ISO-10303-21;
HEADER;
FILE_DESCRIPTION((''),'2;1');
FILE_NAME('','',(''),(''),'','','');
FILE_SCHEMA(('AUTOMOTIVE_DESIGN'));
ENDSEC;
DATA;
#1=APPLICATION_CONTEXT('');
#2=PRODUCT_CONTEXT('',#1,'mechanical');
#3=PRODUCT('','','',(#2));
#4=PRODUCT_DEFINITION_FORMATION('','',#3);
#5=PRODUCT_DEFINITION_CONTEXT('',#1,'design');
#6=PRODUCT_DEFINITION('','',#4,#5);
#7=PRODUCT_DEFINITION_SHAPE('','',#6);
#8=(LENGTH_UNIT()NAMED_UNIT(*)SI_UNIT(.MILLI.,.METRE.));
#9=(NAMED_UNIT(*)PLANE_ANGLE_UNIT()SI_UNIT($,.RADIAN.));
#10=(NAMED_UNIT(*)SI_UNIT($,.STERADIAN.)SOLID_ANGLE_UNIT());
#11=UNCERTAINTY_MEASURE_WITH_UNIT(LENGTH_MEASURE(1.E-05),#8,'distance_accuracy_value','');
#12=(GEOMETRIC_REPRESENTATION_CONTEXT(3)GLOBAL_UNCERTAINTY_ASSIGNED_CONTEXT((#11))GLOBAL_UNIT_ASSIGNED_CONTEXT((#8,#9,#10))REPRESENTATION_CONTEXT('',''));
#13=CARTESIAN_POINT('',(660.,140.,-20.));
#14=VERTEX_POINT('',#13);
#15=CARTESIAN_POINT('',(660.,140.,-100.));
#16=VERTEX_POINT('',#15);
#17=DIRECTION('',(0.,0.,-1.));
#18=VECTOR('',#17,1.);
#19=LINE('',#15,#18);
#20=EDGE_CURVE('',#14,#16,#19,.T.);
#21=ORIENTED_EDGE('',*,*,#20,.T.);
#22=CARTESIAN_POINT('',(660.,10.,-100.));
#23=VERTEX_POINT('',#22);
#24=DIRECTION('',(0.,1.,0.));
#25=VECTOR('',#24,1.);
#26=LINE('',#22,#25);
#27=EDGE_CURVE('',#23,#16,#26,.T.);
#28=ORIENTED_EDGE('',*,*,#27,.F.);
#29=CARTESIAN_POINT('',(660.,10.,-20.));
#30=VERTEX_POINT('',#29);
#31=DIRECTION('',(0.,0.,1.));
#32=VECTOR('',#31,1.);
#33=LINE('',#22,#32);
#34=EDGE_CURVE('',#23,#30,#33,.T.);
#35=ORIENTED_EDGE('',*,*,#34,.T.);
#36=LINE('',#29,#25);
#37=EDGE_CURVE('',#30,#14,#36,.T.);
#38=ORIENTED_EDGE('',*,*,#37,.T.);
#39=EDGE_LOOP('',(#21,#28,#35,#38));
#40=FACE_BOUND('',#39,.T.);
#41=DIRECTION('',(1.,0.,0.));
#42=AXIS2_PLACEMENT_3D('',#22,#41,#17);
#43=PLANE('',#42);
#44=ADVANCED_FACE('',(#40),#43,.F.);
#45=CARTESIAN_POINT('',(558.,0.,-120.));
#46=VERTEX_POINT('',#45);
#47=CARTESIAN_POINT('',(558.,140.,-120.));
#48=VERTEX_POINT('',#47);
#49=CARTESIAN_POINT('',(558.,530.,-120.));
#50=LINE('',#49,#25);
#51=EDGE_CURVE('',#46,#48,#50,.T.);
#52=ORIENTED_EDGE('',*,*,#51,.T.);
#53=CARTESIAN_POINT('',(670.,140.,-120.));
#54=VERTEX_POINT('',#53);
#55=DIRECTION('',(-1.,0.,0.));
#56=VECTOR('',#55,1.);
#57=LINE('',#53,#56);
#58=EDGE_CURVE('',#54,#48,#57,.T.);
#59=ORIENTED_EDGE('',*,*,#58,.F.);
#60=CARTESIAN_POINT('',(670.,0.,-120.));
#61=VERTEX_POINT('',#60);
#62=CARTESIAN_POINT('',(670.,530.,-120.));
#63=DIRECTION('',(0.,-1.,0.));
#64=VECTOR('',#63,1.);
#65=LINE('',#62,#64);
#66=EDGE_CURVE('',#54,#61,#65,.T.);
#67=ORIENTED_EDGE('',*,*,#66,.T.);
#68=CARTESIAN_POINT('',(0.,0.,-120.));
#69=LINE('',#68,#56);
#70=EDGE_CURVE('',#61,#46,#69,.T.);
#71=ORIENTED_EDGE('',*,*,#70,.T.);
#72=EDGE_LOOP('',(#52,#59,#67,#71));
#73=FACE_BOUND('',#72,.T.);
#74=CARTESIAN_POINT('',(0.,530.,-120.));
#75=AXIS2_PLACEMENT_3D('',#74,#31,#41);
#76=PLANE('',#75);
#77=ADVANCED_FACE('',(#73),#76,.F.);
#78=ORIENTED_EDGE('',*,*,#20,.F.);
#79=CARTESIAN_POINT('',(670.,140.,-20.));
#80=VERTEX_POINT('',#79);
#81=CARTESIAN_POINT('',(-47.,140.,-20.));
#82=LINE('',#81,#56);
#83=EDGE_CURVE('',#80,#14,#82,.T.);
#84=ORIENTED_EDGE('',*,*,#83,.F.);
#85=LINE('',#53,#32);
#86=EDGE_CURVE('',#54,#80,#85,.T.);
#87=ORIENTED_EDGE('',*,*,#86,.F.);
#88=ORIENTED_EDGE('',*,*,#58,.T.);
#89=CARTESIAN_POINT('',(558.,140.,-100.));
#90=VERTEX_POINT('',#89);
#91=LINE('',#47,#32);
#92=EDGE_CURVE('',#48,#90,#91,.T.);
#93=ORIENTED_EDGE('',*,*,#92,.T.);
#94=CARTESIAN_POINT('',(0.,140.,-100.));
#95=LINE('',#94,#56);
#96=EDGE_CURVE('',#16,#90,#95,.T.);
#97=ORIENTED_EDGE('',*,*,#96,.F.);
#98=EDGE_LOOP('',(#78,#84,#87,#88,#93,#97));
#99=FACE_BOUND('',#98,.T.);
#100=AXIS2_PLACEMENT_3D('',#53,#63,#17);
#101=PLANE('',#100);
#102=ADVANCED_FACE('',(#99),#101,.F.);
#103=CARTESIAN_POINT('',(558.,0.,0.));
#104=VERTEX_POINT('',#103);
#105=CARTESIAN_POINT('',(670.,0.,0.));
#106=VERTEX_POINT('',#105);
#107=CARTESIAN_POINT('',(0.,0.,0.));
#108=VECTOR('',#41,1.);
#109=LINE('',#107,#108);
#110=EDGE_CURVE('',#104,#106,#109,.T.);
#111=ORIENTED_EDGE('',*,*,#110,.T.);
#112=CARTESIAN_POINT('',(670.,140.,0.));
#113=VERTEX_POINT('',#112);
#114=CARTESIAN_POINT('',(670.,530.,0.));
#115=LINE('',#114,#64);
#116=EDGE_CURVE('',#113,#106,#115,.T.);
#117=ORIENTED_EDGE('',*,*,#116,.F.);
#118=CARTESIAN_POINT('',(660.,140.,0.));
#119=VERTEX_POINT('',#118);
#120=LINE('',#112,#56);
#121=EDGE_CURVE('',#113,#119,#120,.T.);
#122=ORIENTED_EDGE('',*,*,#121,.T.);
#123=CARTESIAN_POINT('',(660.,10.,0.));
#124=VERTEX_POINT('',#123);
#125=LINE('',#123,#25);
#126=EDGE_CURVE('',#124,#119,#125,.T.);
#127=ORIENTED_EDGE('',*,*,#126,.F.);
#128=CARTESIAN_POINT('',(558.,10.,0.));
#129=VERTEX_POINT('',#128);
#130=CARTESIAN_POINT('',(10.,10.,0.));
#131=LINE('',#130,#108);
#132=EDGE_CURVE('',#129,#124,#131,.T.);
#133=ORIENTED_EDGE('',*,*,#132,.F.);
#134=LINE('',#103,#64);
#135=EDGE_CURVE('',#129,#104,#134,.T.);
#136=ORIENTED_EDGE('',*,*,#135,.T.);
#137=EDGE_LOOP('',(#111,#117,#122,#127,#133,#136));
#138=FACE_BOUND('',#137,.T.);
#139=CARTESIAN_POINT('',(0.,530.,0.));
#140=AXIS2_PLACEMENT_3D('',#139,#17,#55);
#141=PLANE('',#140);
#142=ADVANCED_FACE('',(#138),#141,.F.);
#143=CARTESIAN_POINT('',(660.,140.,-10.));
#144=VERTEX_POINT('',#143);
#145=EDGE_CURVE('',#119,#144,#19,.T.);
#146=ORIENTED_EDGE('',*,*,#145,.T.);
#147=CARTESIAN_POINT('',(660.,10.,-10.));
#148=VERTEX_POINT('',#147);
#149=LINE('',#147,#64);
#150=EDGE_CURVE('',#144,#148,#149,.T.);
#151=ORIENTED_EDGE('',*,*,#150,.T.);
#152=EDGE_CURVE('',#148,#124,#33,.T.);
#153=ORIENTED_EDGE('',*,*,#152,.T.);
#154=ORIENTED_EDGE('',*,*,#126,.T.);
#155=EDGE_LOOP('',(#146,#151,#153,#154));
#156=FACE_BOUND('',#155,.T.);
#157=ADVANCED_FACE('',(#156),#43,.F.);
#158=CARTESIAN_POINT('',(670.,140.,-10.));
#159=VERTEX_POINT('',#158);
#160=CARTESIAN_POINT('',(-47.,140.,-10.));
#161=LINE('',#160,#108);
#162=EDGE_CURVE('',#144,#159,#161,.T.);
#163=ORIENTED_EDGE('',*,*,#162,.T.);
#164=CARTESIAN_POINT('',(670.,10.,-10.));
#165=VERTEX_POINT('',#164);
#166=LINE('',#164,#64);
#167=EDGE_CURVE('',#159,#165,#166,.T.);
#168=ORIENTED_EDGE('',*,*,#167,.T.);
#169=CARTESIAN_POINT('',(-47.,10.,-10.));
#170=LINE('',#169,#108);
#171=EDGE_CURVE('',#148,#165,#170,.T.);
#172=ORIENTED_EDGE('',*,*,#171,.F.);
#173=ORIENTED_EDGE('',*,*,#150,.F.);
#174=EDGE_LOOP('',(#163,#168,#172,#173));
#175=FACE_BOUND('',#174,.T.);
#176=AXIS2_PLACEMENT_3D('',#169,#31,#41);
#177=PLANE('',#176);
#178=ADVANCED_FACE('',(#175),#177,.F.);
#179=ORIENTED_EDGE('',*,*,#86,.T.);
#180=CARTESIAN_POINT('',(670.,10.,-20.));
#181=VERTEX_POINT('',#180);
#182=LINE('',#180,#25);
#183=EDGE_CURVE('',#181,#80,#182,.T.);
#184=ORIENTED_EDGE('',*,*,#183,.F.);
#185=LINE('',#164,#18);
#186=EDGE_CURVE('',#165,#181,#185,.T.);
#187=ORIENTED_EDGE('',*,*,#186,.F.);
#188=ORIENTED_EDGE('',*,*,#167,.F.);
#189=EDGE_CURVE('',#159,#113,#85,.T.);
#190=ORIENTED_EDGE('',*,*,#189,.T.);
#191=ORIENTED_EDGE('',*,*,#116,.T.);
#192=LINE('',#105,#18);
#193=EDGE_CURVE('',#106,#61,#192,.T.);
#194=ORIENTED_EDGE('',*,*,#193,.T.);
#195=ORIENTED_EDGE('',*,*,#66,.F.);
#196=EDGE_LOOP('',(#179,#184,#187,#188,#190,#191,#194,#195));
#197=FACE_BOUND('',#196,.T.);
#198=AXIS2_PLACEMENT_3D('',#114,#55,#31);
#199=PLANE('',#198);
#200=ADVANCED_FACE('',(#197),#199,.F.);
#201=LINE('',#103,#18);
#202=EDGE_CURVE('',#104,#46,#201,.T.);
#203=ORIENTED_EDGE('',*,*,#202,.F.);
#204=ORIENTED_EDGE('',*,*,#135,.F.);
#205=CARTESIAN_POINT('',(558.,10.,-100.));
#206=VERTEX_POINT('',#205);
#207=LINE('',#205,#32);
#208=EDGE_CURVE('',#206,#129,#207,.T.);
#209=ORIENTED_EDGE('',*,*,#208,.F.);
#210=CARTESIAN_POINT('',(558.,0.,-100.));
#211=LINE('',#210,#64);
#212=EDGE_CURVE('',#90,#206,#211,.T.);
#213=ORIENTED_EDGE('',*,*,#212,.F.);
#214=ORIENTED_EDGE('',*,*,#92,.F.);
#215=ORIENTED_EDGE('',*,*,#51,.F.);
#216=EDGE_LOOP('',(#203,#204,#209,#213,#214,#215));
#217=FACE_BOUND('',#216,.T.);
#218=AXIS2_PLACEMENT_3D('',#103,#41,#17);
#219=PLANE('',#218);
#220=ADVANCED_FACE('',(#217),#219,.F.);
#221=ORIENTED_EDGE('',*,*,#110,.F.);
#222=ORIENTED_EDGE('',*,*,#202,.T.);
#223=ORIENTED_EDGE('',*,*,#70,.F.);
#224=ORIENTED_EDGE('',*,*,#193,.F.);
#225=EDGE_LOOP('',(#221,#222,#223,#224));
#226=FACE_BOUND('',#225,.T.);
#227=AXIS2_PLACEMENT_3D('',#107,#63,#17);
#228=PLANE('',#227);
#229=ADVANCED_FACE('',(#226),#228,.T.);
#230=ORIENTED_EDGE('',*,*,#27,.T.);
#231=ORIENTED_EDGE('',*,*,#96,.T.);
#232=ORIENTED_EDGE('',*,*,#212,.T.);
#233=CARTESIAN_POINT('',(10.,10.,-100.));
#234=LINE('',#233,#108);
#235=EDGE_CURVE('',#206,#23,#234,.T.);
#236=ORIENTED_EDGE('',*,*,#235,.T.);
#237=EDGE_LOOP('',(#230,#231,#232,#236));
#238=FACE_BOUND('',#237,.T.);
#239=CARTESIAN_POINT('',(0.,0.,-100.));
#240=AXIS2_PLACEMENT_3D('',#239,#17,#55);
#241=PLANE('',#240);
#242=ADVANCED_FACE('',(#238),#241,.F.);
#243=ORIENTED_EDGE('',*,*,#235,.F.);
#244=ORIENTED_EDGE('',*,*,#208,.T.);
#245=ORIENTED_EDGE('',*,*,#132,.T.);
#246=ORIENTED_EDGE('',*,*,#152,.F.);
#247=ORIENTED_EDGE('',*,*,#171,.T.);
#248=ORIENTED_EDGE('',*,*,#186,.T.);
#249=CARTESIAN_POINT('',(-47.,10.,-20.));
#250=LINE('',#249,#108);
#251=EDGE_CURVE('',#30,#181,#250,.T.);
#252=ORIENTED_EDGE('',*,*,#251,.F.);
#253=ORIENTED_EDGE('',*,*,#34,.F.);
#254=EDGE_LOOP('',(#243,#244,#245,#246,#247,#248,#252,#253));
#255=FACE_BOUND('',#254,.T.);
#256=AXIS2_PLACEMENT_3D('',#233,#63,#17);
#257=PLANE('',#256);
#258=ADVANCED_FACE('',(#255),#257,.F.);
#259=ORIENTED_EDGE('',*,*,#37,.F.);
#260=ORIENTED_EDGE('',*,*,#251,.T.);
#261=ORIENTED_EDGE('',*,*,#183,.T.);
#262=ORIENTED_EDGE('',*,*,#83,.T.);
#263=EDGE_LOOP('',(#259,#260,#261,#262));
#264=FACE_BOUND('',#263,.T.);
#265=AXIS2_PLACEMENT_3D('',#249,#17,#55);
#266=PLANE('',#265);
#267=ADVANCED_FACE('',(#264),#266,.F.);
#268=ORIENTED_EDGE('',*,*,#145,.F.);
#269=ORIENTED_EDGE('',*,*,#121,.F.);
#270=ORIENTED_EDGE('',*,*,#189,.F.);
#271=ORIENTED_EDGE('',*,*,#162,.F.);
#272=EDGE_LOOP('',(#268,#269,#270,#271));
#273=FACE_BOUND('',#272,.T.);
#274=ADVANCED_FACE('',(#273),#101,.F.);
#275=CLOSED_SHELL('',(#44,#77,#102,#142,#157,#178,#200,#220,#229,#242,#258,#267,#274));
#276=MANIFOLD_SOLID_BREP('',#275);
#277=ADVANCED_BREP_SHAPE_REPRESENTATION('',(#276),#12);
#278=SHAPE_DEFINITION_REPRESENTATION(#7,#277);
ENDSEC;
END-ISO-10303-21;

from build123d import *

# Parameters (mm, degrees)
SKETCH1_W                      = 670
SKETCH1_H                      = 120
BOSS_EXTRUDE1_DEPTH            = 530
SKETCH2_W                      = 100
SKETCH2_H                      = 200
SKETCH2_W_2                    = 650
SKETCH2_H_2                    = 250
CUT_EXTRUDE1_DEPTH             = 100
SKETCH3_R                      = 50
CUT_EXTRUDE2_DEPTH             = 260
F_12_0_12_DIAMETER_HOLE2_D     = 12
F_12_0_12_DIAMETER_HOLE2_DEPTH = 30
F_12_0_12_DIAMETER_HOLE2_TIP   = 3.605163714
SKETCH8_W                      = 650
SKETCH8_H                      = 50
BOSS_EXTRUDE2_DEPTH            = 5
SKETCH9_W                      = 10
SKETCH9_H                      = 250
CUT_EXTRUDE3_DEPTH             = 717
CUT_EXTRUDE4_DEPTH             = 5
SKETCH11_W                     = 10
SKETCH11_H                     = 100
BOSS_EXTRUDE3_DEPTH            = 78
BOSS_EXTRUDE3_2_DEPTH          = 78
BOSS_EXTRUDE3_3_DEPTH          = 78
SKETCH12_W                     = 20
SKETCH12_H                     = 30
CUT_EXTRUDE5_DEPTH             = 80
SKETCH15_W                     = 30
SKETCH15_H                     = 23.536156656
SKETCH15_H_2                   = 28.986603691
CUT_EXTRUDE7_DEPTH             = 35
SHELL1_T                       = -3
SKETCH16_W                     = 14
SKETCH16_H                     = 14
CUT_EXTRUDE8_DEPTH             = 35
SKETCH17_W                     = 5.729882812
SKETCH17_H                     = 17.428393554
SKETCH17_W_2                   = 13.369726562
SKETCH17_H_2                   = 3.342431641
BOSS_EXTRUDE4_DEPTH            = 5
CUT_EXTRUDE10_DEPTH            = 863.670273187
CUT_EXTRUDE10_DEPTH_BACK       = 863.670273187
SKETCH18_W                     = 670
SKETCH18_H                     = 250
CUT_EXTRUDE12_DEPTH            = 737.002717386
CUT_EXTRUDE12_DEPTH_BACK       = 737.002717386
SKETCH19_W                     = 558
SKETCH19_H                     = 280
CUT_EXTRUDE13_DEPTH            = 322.253793752
CUT_EXTRUDE13_DEPTH_BACK       = 322.253793752
SKETCH20_W                     = 120
SKETCH20_H                     = 140


with BuildPart() as part:
    # Sketch1 → Boss-Extrude1 (new body)
    with BuildSketch(Plane(origin=(0, 0, 0), x_dir=(1, 0, 0), z_dir=(0, 1, 0))):
        with Locations((335, 60)):
            Rectangle(SKETCH1_W, SKETCH1_H)
    extrude(amount=BOSS_EXTRUDE1_DEPTH)

    # Sketch2 → Cut-Extrude1 (cut)
    with BuildSketch(Plane.XY):
        with Locations((60, 380)):
            Rectangle(SKETCH2_W, SKETCH2_H)
        with Locations((170, 380)):
            Rectangle(SKETCH2_W, SKETCH2_H)
        with Locations((280, 380)):
            Rectangle(SKETCH2_W, SKETCH2_H)
        with Locations((390, 380)):
            Rectangle(SKETCH2_W, SKETCH2_H)
        with Locations((500, 380)):
            Rectangle(SKETCH2_W, SKETCH2_H)
        with Locations((610, 380)):
            Rectangle(SKETCH2_W, SKETCH2_H)
        with Locations((335, 135)):
            Rectangle(SKETCH2_W_2, SKETCH2_H_2)
    extrude(amount=-CUT_EXTRUDE1_DEPTH, mode=Mode.SUBTRACT)

    # Sketch3 → Cut-Extrude2 (cut)
    with BuildSketch(Plane(origin=(0, 530, 0), x_dir=(1, 0, 0), z_dir=(0, 1, 0))):
        with Locations(Location((60, 60, 0), (0, 0, 270))):
            Circle(SKETCH3_R)
        with Locations(Location((170, 60, 0), (0, 0, 270))):
            Circle(SKETCH3_R)
        with Locations(Location((280, 60, 0), (0, 0, 270))):
            Circle(SKETCH3_R)
        with Locations(Location((390, 60, 0), (0, 0, 270))):
            Circle(SKETCH3_R)
        with Locations(Location((500, 60, 0), (0, 0, 270))):
            Circle(SKETCH3_R)
        with Locations(Location((610, 60, 0), (0, 0, 270))):
            Circle(SKETCH3_R)
    extrude(amount=-CUT_EXTRUDE2_DEPTH, mode=Mode.SUBTRACT)

    # Ø12.0 (12) Diameter Hole2
    with Locations(Plane(origin=(59.704642413, 270, -102.411697903), x_dir=(0, 0, 1), z_dir=(0, 1, 0))):
        with Locations((0, 0), (-0.195888006, 111.8520513), (0.014838595, 221.167624818), (-0.341843303, 331.364008353), (0.657723149, 441.008646429), (1.288998006, 549.811854685)):
            Hole(F_12_0_12_DIAMETER_HOLE2_D / 2, depth=F_12_0_12_DIAMETER_HOLE2_DEPTH)
            with Locations((0, 0, -(F_12_0_12_DIAMETER_HOLE2_DEPTH + F_12_0_12_DIAMETER_HOLE2_TIP / 2))):  # 118° drill point
                Cone(0, F_12_0_12_DIAMETER_HOLE2_D / 2, F_12_0_12_DIAMETER_HOLE2_TIP, mode=Mode.SUBTRACT)

    # Sketch8 → Boss-Extrude2 (add)
    with BuildSketch(Plane.XY):
        with Locations((335, 305)):
            Rectangle(SKETCH8_W, SKETCH8_H)
    extrude(amount=-BOSS_EXTRUDE2_DEPTH)

    # Sketch9 → Cut-Extrude3 (cut)
    with BuildSketch(Plane(origin=(670, 0, 0), x_dir=(0, 0, -1), z_dir=(1, 0, 0))):
        with Locations((15, 135)):
            Rectangle(SKETCH9_W, SKETCH9_H)
    extrude(amount=-CUT_EXTRUDE3_DEPTH, mode=Mode.SUBTRACT)

    # Sketch10 → Cut-Extrude4 (cut)
    with BuildSketch(Plane(origin=(0, 10, 0), x_dir=(1, 0, 0), z_dir=(0, 1, 0))):
        Polygon((365, 61.943560596), (350, 87.924322709), (320, 87.924322709), (305, 61.943560596), (320, 35.962798482), (350, 35.962798482), align=None)
    extrude(amount=-CUT_EXTRUDE4_DEPTH, mode=Mode.SUBTRACT)

    # Sketch12 → Cut-Extrude5 (cut)
    with BuildSketch(Plane.XY.offset(-100)):
        with Locations((85.198613037, 245)):
            Rectangle(SKETCH12_W, SKETCH12_H)
        with Locations((195.198613037, 245)):
            Rectangle(SKETCH12_W, SKETCH12_H)
        with Locations((305.198613037, 245)):
            Rectangle(SKETCH12_W, SKETCH12_H)
        with Locations((415.198613037, 245)):
            Rectangle(SKETCH12_W, SKETCH12_H)
        with Locations((525.198613037, 245)):
            Rectangle(SKETCH12_W, SKETCH12_H)
        with Locations((635.198613037, 245)):
            Rectangle(SKETCH12_W, SKETCH12_H)
    extrude(amount=-CUT_EXTRUDE5_DEPTH, mode=Mode.SUBTRACT)

    # Sketch17 → Boss-Extrude4 (add)
    # profile 1 of 9: a face of its own
    with BuildSketch(Plane.XY):
        with BuildLine():
            Line((527.508830928, 289.835452458), (527.508830928, 307.263846012))
            Line((527.508830928, 307.263846012), (534.861434459, 307.263846012))
            add(Edge.make_bspline(
                [(534.861434459, 307.263846012), (535.181337774, 307.258256848), (535.803061116, 307.24739446), (536.703508491, 307.139069344), (537.544992916, 306.975202489), (538.325061607, 306.737496792), (539.040841948, 306.426020155), (539.698044515, 306.051894954), (540.290333057, 305.605079277), (540.822348212, 305.090232636), (541.284521701, 304.502523111), (541.692171296, 303.852565801), (542.030284458, 303.129762281), (542.309377095, 302.341316546), (542.5243908, 301.484161689), (542.679660381, 300.560045938), (542.773357357, 299.567500804), (542.783368073, 298.883107022), (542.788518428, 298.530997273)],
                knots=[0, 0, 0, 0, 1.135059408, 2.20595691, 3.214417064, 4.174978569, 5.094187092, 5.980001006, 6.853065862, 7.720814779, 8.600404634, 9.50058483, 10.438414914, 11.426825708, 12.465239141, 13.571113463, 14.750376389, 16, 16, 16, 16], degree=3))
            add(Edge.make_bspline(
                [(542.788518428, 298.530997273), (542.781740751, 298.180151665), (542.768592871, 297.499553336), (542.676885992, 296.511518461), (542.516733301, 295.591080531), (542.296748778, 294.736450427), (542.003051046, 293.953120444), (541.654236167, 293.233205539), (541.233025793, 292.585291498), (540.753136904, 292.000029304), (540.204772188, 291.484681411), (539.587651059, 291.044279297), (538.910779309, 290.668464036), (538.169670382, 290.361903209), (537.364073889, 290.124869172), (536.495133477, 289.954199984), (535.562644449, 289.853487388), (534.920131033, 289.841584621), (534.58911581, 289.835452458)],
                knots=[0, 0, 0, 0, 1.228418252, 2.382983832, 3.470276728, 4.496757894, 5.468023682, 6.394867725, 7.292157164, 8.167372942, 9.039072913, 9.918728341, 10.815246345, 11.744296628, 12.720973084, 13.750736166, 14.841206188, 16, 16, 16, 16], degree=3))
            Line((534.58911581, 289.835452458), (527.508830928, 289.835452458))
        make_face()
        with BuildLine():
            Line((533.238713741, 291.745413395), (534.048208904, 291.745413395))
            add(Edge.make_bspline(
                [(534.048208904, 291.745413395), (534.172894012, 291.749291978), (534.413033311, 291.756761998), (534.758676231, 291.825976613), (535.075745017, 291.938271137), (535.365749176, 292.094802589), (535.623404602, 292.300450923), (535.848862806, 292.551404902), (536.04776914, 292.844737637), (536.217685755, 293.190205032), (536.364284647, 293.596533622), (536.481764702, 294.076367921), (536.592118304, 294.630928744), (536.673672739, 295.265507643), (536.740044562, 295.978448886), (536.788346679, 296.768428292), (536.812018936, 297.636801208), (536.817188964, 298.241258393), (536.819890499, 298.55711002)],
                knots=[0, 0, 0, 0, 0.728710832, 1.403472396, 2.052289494, 2.690292559, 3.321919393, 3.970736491, 4.656696891, 5.388631723, 6.217040872, 7.17856157, 8.275589967, 9.523440737, 10.918935818, 12.463926104, 14.152268318, 16, 16, 16, 16], degree=3))
            add(Edge.make_bspline(
                [(536.819890499, 298.55711002), (536.8171426, 298.871715251), (536.811863063, 299.476166083), (536.7886758, 300.343334385), (536.739579947, 301.133216935), (536.674703848, 301.843934916), (536.589660404, 302.476324031), (536.488366458, 303.031681737), (536.362441588, 303.507627045), (536.222158727, 303.914921549), (536.050140993, 304.256514038), (535.858357073, 304.554097881), (535.62547107, 304.79746827), (535.36991257, 305.004888479), (535.079348843, 305.160875844), (534.761320266, 305.273944358), (534.414185903, 305.34216807), (534.172870641, 305.349893944), (534.048208904, 305.353885075)],
                knots=[0, 0, 0, 0, 1.842836665, 3.540640921, 5.080358154, 6.47765669, 7.719902824, 8.816971715, 9.781579111, 10.601733135, 11.334613876, 12.017393917, 12.666641099, 13.29908421, 13.937911793, 14.587567384, 15.270347425, 16, 16, 16, 16], degree=3))
            Line((534.048208904, 305.353885075), (533.238713741, 305.353885075))
            Line((533.238713741, 305.353885075), (533.238713741, 291.745413395))
        make_face(mode=Mode.SUBTRACT)
    # profile 2 of 9: a face of its own
    with BuildSketch(Plane.XY):
        with Locations((547.563420772, 298.549649235)):
            Rectangle(SKETCH17_W, SKETCH17_H)
    # profile 3 of 9: a face of its own
    with BuildSketch(Plane.XY):
        Polygon((564.514324092, 307.263846012), (564.514324092, 305.115139958), (558.545696163, 305.115139958), (558.545696163, 299.862747379), (563.559343624, 299.862747379), (563.559343624, 297.714041325), (558.545696163, 297.714041325), (558.545696163, 289.835452458), (552.81581335, 289.835452458), (552.81581335, 307.263846012), align=None)
    # profile 4 of 9: a face of its own
    with BuildSketch(Plane.XY):
        Polygon((577.645305538, 307.263846012), (577.645305538, 305.115139958), (571.676677608, 305.115139958), (571.676677608, 299.862747379), (576.690325069, 299.862747379), (576.690325069, 297.714041325), (571.676677608, 297.714041325), (571.676677608, 289.835452458), (565.946794795, 289.835452458), (565.946794795, 307.263846012), align=None)
    # profile 5 of 9: a face of its own
    with BuildSketch(Plane.XY):
        with Locations((584.330168819, 287.448001286)):
            Rectangle(SKETCH17_W_2, SKETCH17_H_2)
    # profile 6 of 9: a face of its own
    with BuildSketch(Plane.XY):
        with BuildLine():
            Line((605.578484249, 307.263846012), (605.578484249, 295.602639195))
            add(Edge.make_bspline(
                [(605.578484249, 295.602639195), (605.574209777, 295.35989389), (605.565919345, 294.889083964), (605.480877158, 294.20653885), (605.349958188, 293.569747554), (605.15926554, 292.978838165), (604.911867049, 292.436847071), (604.616163877, 291.936663973), (604.260702644, 291.487723021), (603.847299908, 291.08966617), (603.386881991, 290.731670113), (602.867295001, 290.425440037), (602.293741958, 290.168488385), (601.66690529, 289.960990771), (600.988052682, 289.797299786), (600.254912883, 289.679078851), (599.467035781, 289.60781007), (598.923618241, 289.60048219), (598.643684673, 289.59670734)],
                knots=[0, 0, 0, 0, 1.108173197, 2.149326602, 3.136215123, 4.073726706, 4.978516626, 5.852185058, 6.72141202, 7.584905625, 8.467554395, 9.379216169, 10.332422268, 11.332766067, 12.390653242, 13.518530507, 14.721707419, 16, 16, 16, 16], degree=3))
            add(Edge.make_bspline(
                [(598.643684673, 289.59670734), (598.373688491, 289.600411437), (597.851346557, 289.607577482), (597.093280473, 289.679448684), (596.387523889, 289.797736542), (595.733050135, 289.960122315), (595.130189942, 290.169220301), (594.579048171, 290.42623041), (594.078350789, 290.732835498), (593.633858028, 291.090104794), (593.234289459, 291.486851767), (592.899913678, 291.940746827), (592.609043638, 292.435866034), (592.375223767, 292.980322997), (592.191754821, 293.570441519), (592.063541006, 294.20666921), (591.983676196, 294.889343196), (591.974661767, 295.359932437), (591.970012569, 295.602639195)],
                knots=[0, 0, 0, 0, 1.258901956, 2.435505865, 3.547148904, 4.59359074, 5.576649289, 6.5183682, 7.424469602, 8.307507093, 9.172751023, 10.042627298, 10.928839176, 11.845659241, 12.799442865, 13.80597989, 14.868432463, 16, 16, 16, 16], degree=3))
            Line((591.970012569, 295.602639195), (591.970012569, 307.263846012))
            Line((591.970012569, 307.263846012), (597.699895381, 307.263846012))
            Line((597.699895381, 307.263846012), (597.699895381, 295.457153889))
            add(Edge.make_bspline(
                [(597.699895381, 295.457153889), (597.700816195, 295.287996189), (597.702584578, 294.963135903), (597.729908723, 294.499051493), (597.768241004, 294.079064133), (597.828226169, 293.705517832), (597.90066041, 293.377063412), (597.989882091, 293.09281535), (598.094998068, 292.852496478), (598.225239063, 292.654232043), (598.380826623, 292.495135011), (598.55368342, 292.353231761), (598.757556996, 292.238543846), (598.987648905, 292.146224908), (599.243380948, 292.070549638), (599.526120553, 292.020376099), (599.83553351, 291.990763905), (600.049971942, 291.986424568), (600.161954402, 291.984158512)],
                knots=[0, 0, 0, 0, 1.622370975, 3.115695595, 4.458049099, 5.666011203, 6.742434742, 7.681714947, 8.519814998, 9.250928664, 9.942747364, 10.646898194, 11.389596108, 12.175933929, 13.021386247, 13.943159715, 14.925891993, 16, 16, 16, 16], degree=3))
            add(Edge.make_bspline(
                [(600.161954402, 291.984158512), (600.283927219, 291.987190593), (600.521124756, 291.993087005), (600.86597014, 292.03390861), (601.187714881, 292.103380086), (601.484890424, 292.205377303), (601.758665297, 292.332852529), (602.012761516, 292.484567923), (602.236391413, 292.674631152), (602.439076761, 292.888441291), (602.620738276, 293.128529789), (602.771757722, 293.399928575), (602.905501548, 293.697121508), (603.005823683, 294.025060118), (603.089837826, 294.379999499), (603.146989706, 294.763086929), (603.186210275, 295.174074524), (603.189394751, 295.457053988), (603.191033077, 295.602639195)],
                knots=[0, 0, 0, 0, 1.083870311, 2.107775948, 3.08105344, 4.003637981, 4.893545291, 5.761570557, 6.624657808, 7.49233129, 8.376387281, 9.291996285, 10.246843261, 11.267344133, 12.334180325, 13.486053461, 14.706643157, 16, 16, 16, 16], degree=3))
            Line((603.191033077, 295.602639195), (603.191033077, 307.263846012))
            Line((603.191033077, 307.263846012), (605.578484249, 307.263846012))
        make_face()
    # profile 7 of 9: a face of its own
    with BuildSketch(Plane.XY):
        with BuildLine():
            Line((619.731593227, 302.015183827), (616.739818477, 301.526502415))
            add(Edge.make_bspline(
                [(616.739818477, 301.526502415), (616.748849224, 301.670726223), (616.765660669, 301.939210177), (616.78429066, 302.312269209), (616.796668381, 302.625642376), (616.798628236, 302.814722915), (616.799504756, 302.899286839)],
                knots=[0, 0, 0, 0, 1.261802504, 2.348944521, 3.261585937, 4, 4, 4, 4], degree=3))
            add(Edge.make_bspline(
                [(616.799504756, 302.899286839), (616.798306068, 303.007660677), (616.795968139, 303.219033721), (616.750451916, 303.523894877), (616.694806916, 303.811547356), (616.604352699, 304.076787391), (616.488181329, 304.320314265), (616.348943917, 304.543955606), (616.184187178, 304.745078709), (615.995833421, 304.928129987), (615.778009957, 305.083200131), (615.536269472, 305.218702836), (615.269765326, 305.333844758), (614.978065514, 305.431346685), (614.660683072, 305.504624438), (614.319025281, 305.556776695), (613.952471696, 305.585673441), (613.699597795, 305.590260771), (613.568984889, 305.592630192)],
                knots=[0, 0, 0, 0, 1.079280541, 2.105035848, 3.067950317, 3.99715044, 4.889989748, 5.753421302, 6.617030865, 7.476358039, 8.364190572, 9.274590025, 10.235106994, 11.254473582, 12.337095886, 13.478601727, 14.697662529, 16, 16, 16, 16], degree=3))
            add(Edge.make_bspline(
                [(613.568984889, 305.592630192), (613.391954632, 305.58912286), (613.059112606, 305.582528579), (612.595688488, 305.495339748), (612.198743126, 305.361419257), (611.87165349, 305.163811893), (611.613188167, 304.909795747), (611.433841092, 304.593316589), (611.323009072, 304.224665915), (611.313400221, 303.959558324), (611.308367061, 303.820693775)],
                knots=[0, 0, 0, 0, 1.294917039, 2.43462794, 3.440028966, 4.347597256, 5.210608309, 6.06356377, 6.985685997, 8, 8, 8, 8], degree=3))
            add(Edge.make_bspline(
                [(611.308367061, 303.820693775), (611.317562032, 303.705133219), (611.336106628, 303.472068433), (611.47315858, 303.132808312), (611.695999602, 302.811560885), (612.009295906, 302.510664216), (612.404107796, 302.221967273), (612.884407504, 301.948533431), (613.450813789, 301.688189695), (613.862519081, 301.536023727), (614.080048656, 301.455624958)],
                knots=[0, 0, 0, 0, 0.716839541, 1.445735977, 2.240793036, 3.131329288, 4.131129903, 5.273471266, 6.559404876, 8, 8, 8, 8], degree=3))
            add(Edge.make_bspline(
                [(614.080048656, 301.455624958), (614.335934702, 301.364918412), (614.834564244, 301.188164095), (615.547657928, 300.88707802), (616.213068388, 300.5749594), (616.829579094, 300.246613346), (617.397833174, 299.90520698), (617.914851624, 299.544556457), (618.386199073, 299.173962102), (618.807001026, 298.783874588), (619.177995113, 298.378100064), (619.4958685, 297.952745357), (619.771807525, 297.51723103), (619.991113975, 297.061458502), (620.169645242, 296.594624218), (620.292698657, 296.11024444), (620.364288243, 295.609761088), (620.37516617, 295.270864226), (620.380681514, 295.099036213)],
                knots=[0, 0, 0, 0, 1.359488612, 2.649152603, 3.874964776, 5.039588756, 6.146130126, 7.193090393, 8.194917302, 9.146793662, 10.063845301, 10.944476293, 11.803344532, 12.641736646, 13.473440096, 14.302714936, 15.139439897, 16, 16, 16, 16], degree=3))
            add(Edge.make_bspline(
                [(620.380681514, 295.099036213), (620.374476075, 294.902306495), (620.362285176, 294.515820995), (620.280160209, 293.948630617), (620.138011896, 293.409496554), (619.938489338, 292.895972278), (619.681049879, 292.411946655), (619.366518754, 291.954381076), (618.996510229, 291.525099427), (618.5710008, 291.128381035), (618.102222518, 290.765302239), (617.587803957, 290.450854345), (617.034458515, 290.187092261), (616.444107988, 289.968993032), (615.81453624, 289.801373099), (615.145337453, 289.685291013), (614.438790193, 289.606619894), (613.954683001, 289.600062276), (613.70700941, 289.59670734)],
                knots=[0, 0, 0, 0, 0.972121714, 1.909782367, 2.824924061, 3.721832975, 4.62620438, 5.527836938, 6.46026819, 7.421000932, 8.398101015, 9.385579713, 10.394244048, 11.422703992, 12.491421888, 13.608778581, 14.776629625, 16, 16, 16, 16], degree=3))
            add(Edge.make_bspline(
                [(613.70700941, 289.59670734), (613.445745367, 289.599650312), (612.939893069, 289.605348413), (612.207608113, 289.66709241), (611.525297432, 289.760984454), (610.893395078, 289.899706116), (610.309273131, 290.072394336), (609.776099392, 290.288320955), (609.295310255, 290.547303481), (608.863217672, 290.843007892), (608.478306623, 291.175775461), (608.148120946, 291.551766865), (607.86942369, 291.967163224), (607.639947144, 292.421521488), (607.466477665, 292.917583541), (607.339164663, 293.449829748), (607.264537999, 294.021332449), (607.254747521, 294.414908557), (607.249700069, 294.617815586)],
                knots=[0, 0, 0, 0, 1.342201143, 2.598733168, 3.773451092, 4.878874364, 5.91991243, 6.900006476, 7.829142054, 8.72062616, 9.585588575, 10.436728592, 11.283829734, 12.149664931, 13.044964919, 13.977937424, 14.957531465, 16, 16, 16, 16], degree=3))
            add(Edge.make_bspline(
                [(607.249700069, 294.617815586), (607.250803815, 294.692425759), (607.253213998, 294.855347393), (607.260452266, 295.122772538), (607.275636683, 295.433682216), (607.29037174, 295.656130545), (607.298195171, 295.774237248)],
                knots=[0, 0, 0, 0, 0.773500207, 1.689044709, 2.77302154, 4, 4, 4, 4], degree=3))
            Line((607.298195171, 295.774237248), (610.36457777, 296.337526509))
            add(Edge.make_bspline(
                [(610.36457777, 296.337526509), (610.326952988, 296.136337493), (610.255606535, 295.754830366), (610.178678473, 295.21219969), (610.124206629, 294.733311493), (610.11767002, 294.435147371), (610.114641475, 294.297001835)],
                knots=[0, 0, 0, 0, 1.192988372, 2.262218769, 3.194850416, 4, 4, 4, 4], degree=3))
            add(Edge.make_bspline(
                [(610.114641475, 294.297001835), (610.116191817, 294.183708768), (610.119182568, 293.965156219), (610.159053378, 293.648552813), (610.215988606, 293.352999663), (610.302906772, 293.079707227), (610.411206928, 292.826307836), (610.544682453, 292.59538211), (610.704385489, 292.386485019), (610.887496571, 292.200099922), (611.094689168, 292.033628705), (611.327456494, 291.892756696), (611.58347653, 291.771733922), (611.864681562, 291.677479524), (612.167961721, 291.596080628), (612.497219749, 291.548235723), (612.849461228, 291.512043782), (613.092629543, 291.508500084), (613.218327999, 291.506668278)],
                knots=[0, 0, 0, 0, 1.135776692, 2.191015738, 3.19649269, 4.151244236, 5.061952528, 5.956281389, 6.819534407, 7.692823504, 8.571441916, 9.478554956, 10.416037156, 11.406231466, 12.450054172, 13.561596327, 14.739541482, 16, 16, 16, 16], degree=3))
            add(Edge.make_bspline(
                [(613.218327999, 291.506668278), (613.423996012, 291.510791273), (613.810619321, 291.518541853), (614.349272542, 291.616708407), (614.810575885, 291.768742445), (615.189785268, 291.991387532), (615.490778961, 292.278756613), (615.698005174, 292.637320004), (615.824813318, 293.05638326), (615.837728413, 293.355975238), (615.844524288, 293.513619419)],
                knots=[0, 0, 0, 0, 1.308765556, 2.460272085, 3.475015317, 4.388076298, 5.239673503, 6.095681635, 6.997954785, 8, 8, 8, 8], degree=3))
            add(Edge.make_bspline(
                [(615.844524288, 293.513619419), (615.833808824, 293.638242951), (615.811807312, 293.894126055), (615.644884004, 294.264515838), (615.382382362, 294.620631473), (615.016807277, 294.962984909), (614.551376589, 295.293471235), (613.986957743, 295.616730224), (613.322148235, 295.933112033), (612.83677959, 296.119639164), (612.580430889, 296.21815395)],
                knots=[0, 0, 0, 0, 0.667930748, 1.371427933, 2.146459016, 3.034714139, 4.04893387, 5.207327294, 6.525042705, 8, 8, 8, 8], degree=3))
            add(Edge.make_bspline(
                [(612.580430889, 296.21815395), (612.374354345, 296.29679374), (611.970646869, 296.450850434), (611.394079385, 296.713586304), (610.853066711, 296.987016804), (610.357486361, 297.288235735), (609.896382561, 297.599610528), (609.477036946, 297.932256792), (609.09841673, 298.284556341), (608.758710772, 298.653375077), (608.457302107, 299.038989264), (608.199448649, 299.444659231), (607.977533299, 299.866789834), (607.798609588, 300.308107488), (607.65975715, 300.767821241), (607.559616231, 301.244439392), (607.497905054, 301.739995674), (607.491630423, 302.075933546), (607.488445186, 302.246468159)],
                knots=[0, 0, 0, 0, 1.249558333, 2.447906163, 3.58867143, 4.682264114, 5.731748367, 6.739728761, 7.711906036, 8.659384707, 9.578321416, 10.481344598, 11.379544271, 12.277135726, 13.175418307, 14.097160112, 15.034047388, 16, 16, 16, 16], degree=3))
            add(Edge.make_bspline(
                [(607.488445186, 302.246468159), (607.49282555, 302.439538736), (607.501402184, 302.817565692), (607.587451154, 303.36980586), (607.719291893, 303.894921371), (607.910558542, 304.389343064), (608.156192894, 304.852853762), (608.453187669, 305.288766511), (608.804241719, 305.697593471), (609.213503754, 306.066686531), (609.657214714, 306.407618241), (610.14376173, 306.697651931), (610.658716537, 306.950861947), (611.210636666, 307.148827868), (611.791820619, 307.313252612), (612.408080529, 307.421140415), (613.056315391, 307.490701612), (613.499160755, 307.498567824), (613.725661373, 307.502591129)],
                knots=[0, 0, 0, 0, 1.01033566, 1.978209831, 2.919499157, 3.840961976, 4.746855014, 5.660740114, 6.597989116, 7.56120833, 8.541877795, 9.523498025, 10.522416858, 11.542172371, 12.589598349, 13.681636521, 14.814234488, 16, 16, 16, 16], degree=3))
            add(Edge.make_bspline(
                [(613.725661373, 307.502591129), (613.968269855, 307.498219033), (614.438190994, 307.489750488), (615.120391152, 307.426787419), (615.755073228, 307.319142339), (616.345153155, 307.171557286), (616.887304575, 306.977590666), (617.384933999, 306.742393454), (617.834452216, 306.46201507), (618.236961315, 306.139451502), (618.593086714, 305.773322851), (618.897467704, 305.361641069), (619.158701245, 304.909408454), (619.366684143, 304.412232174), (619.529870326, 303.873247147), (619.649133834, 303.29158184), (619.720420497, 302.667301443), (619.72779778, 302.236712324), (619.731593227, 302.015183827)],
                knots=[0, 0, 0, 0, 1.248314423, 2.417925914, 3.521398822, 4.558068205, 5.543720209, 6.479599284, 7.385061127, 8.263440163, 9.127722873, 10.00561236, 10.891325273, 11.808802823, 12.772251995, 13.784947978, 14.860405143, 16, 16, 16, 16], degree=3))
        make_face()
    # profile 8 of 9: a face of its own
    with BuildSketch(Plane.XY):
        Polygon((633.989153194, 307.263846012), (633.989153194, 305.115139958), (628.020525264, 305.115139958), (628.020525264, 300.340237614), (633.034172725, 300.340237614), (633.034172725, 298.191531559), (628.020525264, 298.191531559), (628.020525264, 291.984158512), (634.944133663, 291.984158512), (634.944133663, 289.835452458), (622.290642452, 289.835452458), (622.290642452, 307.263846012), align=None)
    # profile 9 of 9: a face of its own
    with BuildSketch(Plane.XY):
        with BuildLine():
            Line((636.376604366, 289.835452458), (636.376604366, 307.263846012))
            Line((636.376604366, 307.263846012), (643.990335369, 307.263846012))
            add(Edge.make_bspline(
                [(643.990335369, 307.263846012), (644.237946498, 307.261150834), (644.721600887, 307.25588639), (645.426490561, 307.189203683), (646.094808274, 307.090496236), (646.724915796, 306.949857504), (647.317873659, 306.767252686), (647.871119087, 306.542146), (648.390701058, 306.282329135), (648.864494846, 305.976472528), (649.295093616, 305.642889252), (649.669668547, 305.279483604), (649.990389523, 304.894749072), (650.250664962, 304.483256345), (650.454275633, 304.048690948), (650.59581384, 303.587791605), (650.684089268, 303.104102537), (650.695510601, 302.772834174), (650.701311397, 302.604585835)],
                knots=[0, 0, 0, 0, 1.303269877, 2.545653735, 3.724355284, 4.8584284, 5.941462088, 6.987020715, 8.000098032, 8.995332524, 9.951400474, 10.863507538, 11.737823931, 12.582415999, 13.420128714, 14.25671499, 15.114600608, 16, 16, 16, 16], degree=3))
            add(Edge.make_bspline(
                [(650.701311397, 302.604585835), (650.698282873, 302.472674957), (650.692382063, 302.215658276), (650.651041486, 301.838684287), (650.580643818, 301.480313933), (650.481036683, 301.139915259), (650.347814833, 300.820175594), (650.191279492, 300.517863507), (650.009772227, 300.230553342), (649.788675198, 299.970497982), (649.548268341, 299.722842359), (649.274558803, 299.497116911), (648.974487035, 299.288655528), (648.642526299, 299.104010513), (648.287619671, 298.928055749), (647.899038177, 298.784921972), (647.486819978, 298.644749395), (647.19793098, 298.577036306), (647.049257183, 298.54218845)],
                knots=[0, 0, 0, 0, 1.057156483, 2.059775939, 3.035078039, 3.981068617, 4.897189472, 5.80650904, 6.70770952, 7.613691521, 8.536886357, 9.470937334, 10.45233069, 11.461024139, 12.51295332, 13.623444893, 14.776929983, 16, 16, 16, 16], degree=3))
            add(Edge.make_bspline(
                [(647.049257183, 298.54218845), (647.19164695, 298.499279419), (647.467865022, 298.416041346), (647.856360945, 298.265600017), (648.211652989, 298.111536308), (648.524185739, 297.936781388), (648.807636894, 297.762122504), (649.047122259, 297.564301324), (649.255235567, 297.361673563), (649.425188343, 297.135464734), (649.570253643, 296.882344437), (649.694827156, 296.586596707), (649.815179167, 296.247423665), (649.917667348, 295.859098311), (650.004750555, 295.423699276), (650.088222437, 294.944027189), (650.153853601, 294.416024546), (650.187587341, 294.048412906), (650.2051692, 293.856815525)],
                knots=[0, 0, 0, 0, 1.149282524, 2.229462177, 3.219229774, 4.139917433, 4.995948464, 5.788695735, 6.536448429, 7.236319808, 7.968460079, 8.78645307, 9.713791991, 10.749194692, 11.887975363, 13.146018663, 14.512518948, 16, 16, 16, 16], degree=3))
            add(Edge.make_bspline(
                [(650.2051692, 293.856815525), (650.225980287, 293.627849833), (650.265975604, 293.187817268), (650.348933081, 292.554613589), (650.44386163, 291.974357025), (650.555874504, 291.44528724), (650.681301216, 290.967898855), (650.821280597, 290.540469593), (650.979920039, 290.165788217), (651.10484481, 289.941461656), (651.163880062, 289.835452458)],
                knots=[0, 0, 0, 0, 1.324580516, 2.545615266, 3.678710841, 4.711533017, 5.660403917, 6.521349952, 7.301239649, 8, 8, 8, 8], degree=3))
            Line((651.163880062, 289.835452458), (645.213904094, 289.835452458))
            add(Edge.make_bspline(
                [(645.213904094, 289.835452458), (645.12229736, 290.069847279), (644.935171241, 290.548648246), (644.7595281, 291.319414791), (644.64846922, 292.142514735), (644.635117598, 292.70994511), (644.628232479, 293.002555653)],
                knots=[0, 0, 0, 0, 0.930410518, 1.900560147, 2.917368081, 4, 4, 4, 4], degree=3))
            Line((644.628232479, 293.002555653), (644.605850124, 294.002300831))
            Line((644.605850124, 294.002300831), (644.579737377, 295.266903874))
            add(Edge.make_bspline(
                [(644.579737377, 295.266903874), (644.573694669, 295.477395004), (644.562357007, 295.872330118), (644.469348432, 296.426164013), (644.30178735, 296.894645884), (644.073222546, 297.287223005), (643.766741442, 297.590613479), (643.39104803, 297.804152917), (642.950456912, 297.93396284), (642.634664848, 297.946292392), (642.468335247, 297.952786442)],
                knots=[0, 0, 0, 0, 1.295300309, 2.430314163, 3.439929415, 4.342995669, 5.203512789, 6.060756153, 6.978588463, 8, 8, 8, 8], degree=3))
            Line((642.468335247, 297.952786442), (642.106487178, 297.952786442))
            Line((642.106487178, 297.952786442), (642.106487178, 289.835452458))
            Line((642.106487178, 289.835452458), (636.376604366, 289.835452458))
        make_face()
        with BuildLine():
            Line((642.106487178, 299.862747379), (642.617550945, 299.862747379))
            add(Edge.make_bspline(
                [(642.617550945, 299.862747379), (642.722054451, 299.865172716), (642.925280724, 299.869889229), (643.220054897, 299.898289891), (643.494111408, 299.951809873), (643.749840966, 300.021017819), (643.984372137, 300.114851792), (644.200147241, 300.225818296), (644.391160406, 300.362685327), (644.565327067, 300.516342321), (644.718148635, 300.691986294), (644.850351299, 300.889034217), (644.961199162, 301.106225057), (645.056078491, 301.342818683), (645.125883912, 301.600830857), (645.173262731, 301.879472914), (645.203404658, 302.177423605), (645.207875435, 302.383174491), (645.210173702, 302.488943669)],
                knots=[0, 0, 0, 0, 1.184986479, 2.304423995, 3.352332712, 4.347714965, 5.303263624, 6.211353909, 7.091434645, 7.960150225, 8.839440182, 9.723126897, 10.64371617, 11.599264829, 12.608232147, 13.667459739, 14.800924404, 16, 16, 16, 16], degree=3))
            add(Edge.make_bspline(
                [(645.210173702, 302.488943669), (645.207875435, 302.594712847), (645.203404658, 302.800463732), (645.173262731, 303.098414423), (645.125883912, 303.37705648), (645.056078491, 303.635068654), (644.961199162, 303.87166228), (644.850351299, 304.08885312), (644.718148635, 304.285901043), (644.565327067, 304.461545017), (644.391160406, 304.61520201), (644.200147241, 304.752069041), (643.984372137, 304.863035546), (643.749840966, 304.956869518), (643.494111408, 305.026077464), (643.220054897, 305.079597446), (642.925280724, 305.107998108), (642.722054451, 305.112714621), (642.617550945, 305.115139958)],
                knots=[0, 0, 0, 0, 1.199075596, 2.332540261, 3.391767853, 4.400735171, 5.35628383, 6.276873103, 7.160559818, 8.039849775, 8.908565355, 9.788646091, 10.696736376, 11.652285035, 12.647667288, 13.695576005, 14.815013521, 16, 16, 16, 16], degree=3))
            Line((642.617550945, 305.115139958), (642.106487178, 305.115139958))
            Line((642.106487178, 305.115139958), (642.106487178, 299.862747379))
        make_face(mode=Mode.SUBTRACT)
    extrude(amount=BOSS_EXTRUDE4_DEPTH)

    # Sketch18 → Cut-Extrude10 (cut, two sides: drawn at the far end of the back side and taken through both)
    with BuildSketch(Plane.XY.offset(-CUT_EXTRUDE10_DEPTH_BACK)):
        with Locations((335, 405)):
            Rectangle(SKETCH18_W, SKETCH18_H)
    extrude(amount=CUT_EXTRUDE10_DEPTH + CUT_EXTRUDE10_DEPTH_BACK, mode=Mode.SUBTRACT)

    # Sketch19 → Cut-Extrude12 (cut, two sides: drawn at the far end of the back side and taken through both)
    with BuildSketch(Plane(origin=(0, 0, -120), x_dir=(-1, 0, 0), z_dir=(0, 0, -1)).offset(-CUT_EXTRUDE12_DEPTH_BACK)):
        with Locations((-279, 140)):
            Rectangle(SKETCH19_W, SKETCH19_H)
    extrude(amount=CUT_EXTRUDE12_DEPTH + CUT_EXTRUDE12_DEPTH_BACK, mode=Mode.SUBTRACT)

    # Sketch20 → Cut-Extrude13 (cut, two sides: drawn at the far end of the back side and taken through both)
    with BuildSketch(Plane.ZY.offset(-660).offset(-CUT_EXTRUDE13_DEPTH_BACK)):
        with Locations((-60, 210)):
            Rectangle(SKETCH20_W, SKETCH20_H)
    extrude(amount=CUT_EXTRUDE13_DEPTH + CUT_EXTRUDE13_DEPTH_BACK, mode=Mode.SUBTRACT)


with BuildPart() as body_2:
    # Sketch11 → Boss-Extrude3 (new body)
    with BuildSketch(Plane.XY.offset(-100)):
        with Locations((255, 60)):
            Rectangle(SKETCH11_W, SKETCH11_H)
    extrude(amount=BOSS_EXTRUDE3_DEPTH)


with BuildPart() as body_3:
    # Sketch11 → Boss-Extrude3 2 (new body)
    with BuildSketch(Plane.XY.offset(-100)):
        with Locations((415, 60)):
            Rectangle(SKETCH11_W, SKETCH11_H)
    extrude(amount=BOSS_EXTRUDE3_2_DEPTH)


with BuildPart() as body_4:
    # Sketch11 → Boss-Extrude3 3 (new body)
    with BuildSketch(Plane.XY.offset(-100)):
        Polygon((25, 198.45686471), (325, 145.558770497), (325, 122.01775856), (345, 122.01775856), (345, 145.558770497), (645, 198.45686471), align=None)
    extrude(amount=BOSS_EXTRUDE3_3_DEPTH)

    # Sketch15 → Cut-Extrude7 (cut)
    with BuildSketch(Plane(origin=(345, 0, 0), x_dir=(0, 0, -1), z_dir=(1, 0, 0))):
        with Locations((35, 133.231921672)):
            Rectangle(SKETCH15_W, SKETCH15_H)
        with Locations((85, 130.506698154)):
            Rectangle(SKETCH15_W, SKETCH15_H_2)
    extrude(amount=-CUT_EXTRUDE7_DEPTH, mode=Mode.SUBTRACT)

    # Shell1
    shell1_openings = [body_4.faces().sort_by_distance(p)[0] for p in [
        (335, 198.45686471, -61),
    ]]
    offset(amount=SHELL1_T, openings=shell1_openings, kind=Kind.INTERSECTION)

    # Sketch16 → Cut-Extrude8 (cut)
    with BuildSketch(Plane.XZ.offset(-122.01775856)):
        with Locations((335, -60)):
            Rectangle(SKETCH16_W, SKETCH16_H)
    extrude(amount=-CUT_EXTRUDE8_DEPTH, mode=Mode.SUBTRACT)


solid = part.part
